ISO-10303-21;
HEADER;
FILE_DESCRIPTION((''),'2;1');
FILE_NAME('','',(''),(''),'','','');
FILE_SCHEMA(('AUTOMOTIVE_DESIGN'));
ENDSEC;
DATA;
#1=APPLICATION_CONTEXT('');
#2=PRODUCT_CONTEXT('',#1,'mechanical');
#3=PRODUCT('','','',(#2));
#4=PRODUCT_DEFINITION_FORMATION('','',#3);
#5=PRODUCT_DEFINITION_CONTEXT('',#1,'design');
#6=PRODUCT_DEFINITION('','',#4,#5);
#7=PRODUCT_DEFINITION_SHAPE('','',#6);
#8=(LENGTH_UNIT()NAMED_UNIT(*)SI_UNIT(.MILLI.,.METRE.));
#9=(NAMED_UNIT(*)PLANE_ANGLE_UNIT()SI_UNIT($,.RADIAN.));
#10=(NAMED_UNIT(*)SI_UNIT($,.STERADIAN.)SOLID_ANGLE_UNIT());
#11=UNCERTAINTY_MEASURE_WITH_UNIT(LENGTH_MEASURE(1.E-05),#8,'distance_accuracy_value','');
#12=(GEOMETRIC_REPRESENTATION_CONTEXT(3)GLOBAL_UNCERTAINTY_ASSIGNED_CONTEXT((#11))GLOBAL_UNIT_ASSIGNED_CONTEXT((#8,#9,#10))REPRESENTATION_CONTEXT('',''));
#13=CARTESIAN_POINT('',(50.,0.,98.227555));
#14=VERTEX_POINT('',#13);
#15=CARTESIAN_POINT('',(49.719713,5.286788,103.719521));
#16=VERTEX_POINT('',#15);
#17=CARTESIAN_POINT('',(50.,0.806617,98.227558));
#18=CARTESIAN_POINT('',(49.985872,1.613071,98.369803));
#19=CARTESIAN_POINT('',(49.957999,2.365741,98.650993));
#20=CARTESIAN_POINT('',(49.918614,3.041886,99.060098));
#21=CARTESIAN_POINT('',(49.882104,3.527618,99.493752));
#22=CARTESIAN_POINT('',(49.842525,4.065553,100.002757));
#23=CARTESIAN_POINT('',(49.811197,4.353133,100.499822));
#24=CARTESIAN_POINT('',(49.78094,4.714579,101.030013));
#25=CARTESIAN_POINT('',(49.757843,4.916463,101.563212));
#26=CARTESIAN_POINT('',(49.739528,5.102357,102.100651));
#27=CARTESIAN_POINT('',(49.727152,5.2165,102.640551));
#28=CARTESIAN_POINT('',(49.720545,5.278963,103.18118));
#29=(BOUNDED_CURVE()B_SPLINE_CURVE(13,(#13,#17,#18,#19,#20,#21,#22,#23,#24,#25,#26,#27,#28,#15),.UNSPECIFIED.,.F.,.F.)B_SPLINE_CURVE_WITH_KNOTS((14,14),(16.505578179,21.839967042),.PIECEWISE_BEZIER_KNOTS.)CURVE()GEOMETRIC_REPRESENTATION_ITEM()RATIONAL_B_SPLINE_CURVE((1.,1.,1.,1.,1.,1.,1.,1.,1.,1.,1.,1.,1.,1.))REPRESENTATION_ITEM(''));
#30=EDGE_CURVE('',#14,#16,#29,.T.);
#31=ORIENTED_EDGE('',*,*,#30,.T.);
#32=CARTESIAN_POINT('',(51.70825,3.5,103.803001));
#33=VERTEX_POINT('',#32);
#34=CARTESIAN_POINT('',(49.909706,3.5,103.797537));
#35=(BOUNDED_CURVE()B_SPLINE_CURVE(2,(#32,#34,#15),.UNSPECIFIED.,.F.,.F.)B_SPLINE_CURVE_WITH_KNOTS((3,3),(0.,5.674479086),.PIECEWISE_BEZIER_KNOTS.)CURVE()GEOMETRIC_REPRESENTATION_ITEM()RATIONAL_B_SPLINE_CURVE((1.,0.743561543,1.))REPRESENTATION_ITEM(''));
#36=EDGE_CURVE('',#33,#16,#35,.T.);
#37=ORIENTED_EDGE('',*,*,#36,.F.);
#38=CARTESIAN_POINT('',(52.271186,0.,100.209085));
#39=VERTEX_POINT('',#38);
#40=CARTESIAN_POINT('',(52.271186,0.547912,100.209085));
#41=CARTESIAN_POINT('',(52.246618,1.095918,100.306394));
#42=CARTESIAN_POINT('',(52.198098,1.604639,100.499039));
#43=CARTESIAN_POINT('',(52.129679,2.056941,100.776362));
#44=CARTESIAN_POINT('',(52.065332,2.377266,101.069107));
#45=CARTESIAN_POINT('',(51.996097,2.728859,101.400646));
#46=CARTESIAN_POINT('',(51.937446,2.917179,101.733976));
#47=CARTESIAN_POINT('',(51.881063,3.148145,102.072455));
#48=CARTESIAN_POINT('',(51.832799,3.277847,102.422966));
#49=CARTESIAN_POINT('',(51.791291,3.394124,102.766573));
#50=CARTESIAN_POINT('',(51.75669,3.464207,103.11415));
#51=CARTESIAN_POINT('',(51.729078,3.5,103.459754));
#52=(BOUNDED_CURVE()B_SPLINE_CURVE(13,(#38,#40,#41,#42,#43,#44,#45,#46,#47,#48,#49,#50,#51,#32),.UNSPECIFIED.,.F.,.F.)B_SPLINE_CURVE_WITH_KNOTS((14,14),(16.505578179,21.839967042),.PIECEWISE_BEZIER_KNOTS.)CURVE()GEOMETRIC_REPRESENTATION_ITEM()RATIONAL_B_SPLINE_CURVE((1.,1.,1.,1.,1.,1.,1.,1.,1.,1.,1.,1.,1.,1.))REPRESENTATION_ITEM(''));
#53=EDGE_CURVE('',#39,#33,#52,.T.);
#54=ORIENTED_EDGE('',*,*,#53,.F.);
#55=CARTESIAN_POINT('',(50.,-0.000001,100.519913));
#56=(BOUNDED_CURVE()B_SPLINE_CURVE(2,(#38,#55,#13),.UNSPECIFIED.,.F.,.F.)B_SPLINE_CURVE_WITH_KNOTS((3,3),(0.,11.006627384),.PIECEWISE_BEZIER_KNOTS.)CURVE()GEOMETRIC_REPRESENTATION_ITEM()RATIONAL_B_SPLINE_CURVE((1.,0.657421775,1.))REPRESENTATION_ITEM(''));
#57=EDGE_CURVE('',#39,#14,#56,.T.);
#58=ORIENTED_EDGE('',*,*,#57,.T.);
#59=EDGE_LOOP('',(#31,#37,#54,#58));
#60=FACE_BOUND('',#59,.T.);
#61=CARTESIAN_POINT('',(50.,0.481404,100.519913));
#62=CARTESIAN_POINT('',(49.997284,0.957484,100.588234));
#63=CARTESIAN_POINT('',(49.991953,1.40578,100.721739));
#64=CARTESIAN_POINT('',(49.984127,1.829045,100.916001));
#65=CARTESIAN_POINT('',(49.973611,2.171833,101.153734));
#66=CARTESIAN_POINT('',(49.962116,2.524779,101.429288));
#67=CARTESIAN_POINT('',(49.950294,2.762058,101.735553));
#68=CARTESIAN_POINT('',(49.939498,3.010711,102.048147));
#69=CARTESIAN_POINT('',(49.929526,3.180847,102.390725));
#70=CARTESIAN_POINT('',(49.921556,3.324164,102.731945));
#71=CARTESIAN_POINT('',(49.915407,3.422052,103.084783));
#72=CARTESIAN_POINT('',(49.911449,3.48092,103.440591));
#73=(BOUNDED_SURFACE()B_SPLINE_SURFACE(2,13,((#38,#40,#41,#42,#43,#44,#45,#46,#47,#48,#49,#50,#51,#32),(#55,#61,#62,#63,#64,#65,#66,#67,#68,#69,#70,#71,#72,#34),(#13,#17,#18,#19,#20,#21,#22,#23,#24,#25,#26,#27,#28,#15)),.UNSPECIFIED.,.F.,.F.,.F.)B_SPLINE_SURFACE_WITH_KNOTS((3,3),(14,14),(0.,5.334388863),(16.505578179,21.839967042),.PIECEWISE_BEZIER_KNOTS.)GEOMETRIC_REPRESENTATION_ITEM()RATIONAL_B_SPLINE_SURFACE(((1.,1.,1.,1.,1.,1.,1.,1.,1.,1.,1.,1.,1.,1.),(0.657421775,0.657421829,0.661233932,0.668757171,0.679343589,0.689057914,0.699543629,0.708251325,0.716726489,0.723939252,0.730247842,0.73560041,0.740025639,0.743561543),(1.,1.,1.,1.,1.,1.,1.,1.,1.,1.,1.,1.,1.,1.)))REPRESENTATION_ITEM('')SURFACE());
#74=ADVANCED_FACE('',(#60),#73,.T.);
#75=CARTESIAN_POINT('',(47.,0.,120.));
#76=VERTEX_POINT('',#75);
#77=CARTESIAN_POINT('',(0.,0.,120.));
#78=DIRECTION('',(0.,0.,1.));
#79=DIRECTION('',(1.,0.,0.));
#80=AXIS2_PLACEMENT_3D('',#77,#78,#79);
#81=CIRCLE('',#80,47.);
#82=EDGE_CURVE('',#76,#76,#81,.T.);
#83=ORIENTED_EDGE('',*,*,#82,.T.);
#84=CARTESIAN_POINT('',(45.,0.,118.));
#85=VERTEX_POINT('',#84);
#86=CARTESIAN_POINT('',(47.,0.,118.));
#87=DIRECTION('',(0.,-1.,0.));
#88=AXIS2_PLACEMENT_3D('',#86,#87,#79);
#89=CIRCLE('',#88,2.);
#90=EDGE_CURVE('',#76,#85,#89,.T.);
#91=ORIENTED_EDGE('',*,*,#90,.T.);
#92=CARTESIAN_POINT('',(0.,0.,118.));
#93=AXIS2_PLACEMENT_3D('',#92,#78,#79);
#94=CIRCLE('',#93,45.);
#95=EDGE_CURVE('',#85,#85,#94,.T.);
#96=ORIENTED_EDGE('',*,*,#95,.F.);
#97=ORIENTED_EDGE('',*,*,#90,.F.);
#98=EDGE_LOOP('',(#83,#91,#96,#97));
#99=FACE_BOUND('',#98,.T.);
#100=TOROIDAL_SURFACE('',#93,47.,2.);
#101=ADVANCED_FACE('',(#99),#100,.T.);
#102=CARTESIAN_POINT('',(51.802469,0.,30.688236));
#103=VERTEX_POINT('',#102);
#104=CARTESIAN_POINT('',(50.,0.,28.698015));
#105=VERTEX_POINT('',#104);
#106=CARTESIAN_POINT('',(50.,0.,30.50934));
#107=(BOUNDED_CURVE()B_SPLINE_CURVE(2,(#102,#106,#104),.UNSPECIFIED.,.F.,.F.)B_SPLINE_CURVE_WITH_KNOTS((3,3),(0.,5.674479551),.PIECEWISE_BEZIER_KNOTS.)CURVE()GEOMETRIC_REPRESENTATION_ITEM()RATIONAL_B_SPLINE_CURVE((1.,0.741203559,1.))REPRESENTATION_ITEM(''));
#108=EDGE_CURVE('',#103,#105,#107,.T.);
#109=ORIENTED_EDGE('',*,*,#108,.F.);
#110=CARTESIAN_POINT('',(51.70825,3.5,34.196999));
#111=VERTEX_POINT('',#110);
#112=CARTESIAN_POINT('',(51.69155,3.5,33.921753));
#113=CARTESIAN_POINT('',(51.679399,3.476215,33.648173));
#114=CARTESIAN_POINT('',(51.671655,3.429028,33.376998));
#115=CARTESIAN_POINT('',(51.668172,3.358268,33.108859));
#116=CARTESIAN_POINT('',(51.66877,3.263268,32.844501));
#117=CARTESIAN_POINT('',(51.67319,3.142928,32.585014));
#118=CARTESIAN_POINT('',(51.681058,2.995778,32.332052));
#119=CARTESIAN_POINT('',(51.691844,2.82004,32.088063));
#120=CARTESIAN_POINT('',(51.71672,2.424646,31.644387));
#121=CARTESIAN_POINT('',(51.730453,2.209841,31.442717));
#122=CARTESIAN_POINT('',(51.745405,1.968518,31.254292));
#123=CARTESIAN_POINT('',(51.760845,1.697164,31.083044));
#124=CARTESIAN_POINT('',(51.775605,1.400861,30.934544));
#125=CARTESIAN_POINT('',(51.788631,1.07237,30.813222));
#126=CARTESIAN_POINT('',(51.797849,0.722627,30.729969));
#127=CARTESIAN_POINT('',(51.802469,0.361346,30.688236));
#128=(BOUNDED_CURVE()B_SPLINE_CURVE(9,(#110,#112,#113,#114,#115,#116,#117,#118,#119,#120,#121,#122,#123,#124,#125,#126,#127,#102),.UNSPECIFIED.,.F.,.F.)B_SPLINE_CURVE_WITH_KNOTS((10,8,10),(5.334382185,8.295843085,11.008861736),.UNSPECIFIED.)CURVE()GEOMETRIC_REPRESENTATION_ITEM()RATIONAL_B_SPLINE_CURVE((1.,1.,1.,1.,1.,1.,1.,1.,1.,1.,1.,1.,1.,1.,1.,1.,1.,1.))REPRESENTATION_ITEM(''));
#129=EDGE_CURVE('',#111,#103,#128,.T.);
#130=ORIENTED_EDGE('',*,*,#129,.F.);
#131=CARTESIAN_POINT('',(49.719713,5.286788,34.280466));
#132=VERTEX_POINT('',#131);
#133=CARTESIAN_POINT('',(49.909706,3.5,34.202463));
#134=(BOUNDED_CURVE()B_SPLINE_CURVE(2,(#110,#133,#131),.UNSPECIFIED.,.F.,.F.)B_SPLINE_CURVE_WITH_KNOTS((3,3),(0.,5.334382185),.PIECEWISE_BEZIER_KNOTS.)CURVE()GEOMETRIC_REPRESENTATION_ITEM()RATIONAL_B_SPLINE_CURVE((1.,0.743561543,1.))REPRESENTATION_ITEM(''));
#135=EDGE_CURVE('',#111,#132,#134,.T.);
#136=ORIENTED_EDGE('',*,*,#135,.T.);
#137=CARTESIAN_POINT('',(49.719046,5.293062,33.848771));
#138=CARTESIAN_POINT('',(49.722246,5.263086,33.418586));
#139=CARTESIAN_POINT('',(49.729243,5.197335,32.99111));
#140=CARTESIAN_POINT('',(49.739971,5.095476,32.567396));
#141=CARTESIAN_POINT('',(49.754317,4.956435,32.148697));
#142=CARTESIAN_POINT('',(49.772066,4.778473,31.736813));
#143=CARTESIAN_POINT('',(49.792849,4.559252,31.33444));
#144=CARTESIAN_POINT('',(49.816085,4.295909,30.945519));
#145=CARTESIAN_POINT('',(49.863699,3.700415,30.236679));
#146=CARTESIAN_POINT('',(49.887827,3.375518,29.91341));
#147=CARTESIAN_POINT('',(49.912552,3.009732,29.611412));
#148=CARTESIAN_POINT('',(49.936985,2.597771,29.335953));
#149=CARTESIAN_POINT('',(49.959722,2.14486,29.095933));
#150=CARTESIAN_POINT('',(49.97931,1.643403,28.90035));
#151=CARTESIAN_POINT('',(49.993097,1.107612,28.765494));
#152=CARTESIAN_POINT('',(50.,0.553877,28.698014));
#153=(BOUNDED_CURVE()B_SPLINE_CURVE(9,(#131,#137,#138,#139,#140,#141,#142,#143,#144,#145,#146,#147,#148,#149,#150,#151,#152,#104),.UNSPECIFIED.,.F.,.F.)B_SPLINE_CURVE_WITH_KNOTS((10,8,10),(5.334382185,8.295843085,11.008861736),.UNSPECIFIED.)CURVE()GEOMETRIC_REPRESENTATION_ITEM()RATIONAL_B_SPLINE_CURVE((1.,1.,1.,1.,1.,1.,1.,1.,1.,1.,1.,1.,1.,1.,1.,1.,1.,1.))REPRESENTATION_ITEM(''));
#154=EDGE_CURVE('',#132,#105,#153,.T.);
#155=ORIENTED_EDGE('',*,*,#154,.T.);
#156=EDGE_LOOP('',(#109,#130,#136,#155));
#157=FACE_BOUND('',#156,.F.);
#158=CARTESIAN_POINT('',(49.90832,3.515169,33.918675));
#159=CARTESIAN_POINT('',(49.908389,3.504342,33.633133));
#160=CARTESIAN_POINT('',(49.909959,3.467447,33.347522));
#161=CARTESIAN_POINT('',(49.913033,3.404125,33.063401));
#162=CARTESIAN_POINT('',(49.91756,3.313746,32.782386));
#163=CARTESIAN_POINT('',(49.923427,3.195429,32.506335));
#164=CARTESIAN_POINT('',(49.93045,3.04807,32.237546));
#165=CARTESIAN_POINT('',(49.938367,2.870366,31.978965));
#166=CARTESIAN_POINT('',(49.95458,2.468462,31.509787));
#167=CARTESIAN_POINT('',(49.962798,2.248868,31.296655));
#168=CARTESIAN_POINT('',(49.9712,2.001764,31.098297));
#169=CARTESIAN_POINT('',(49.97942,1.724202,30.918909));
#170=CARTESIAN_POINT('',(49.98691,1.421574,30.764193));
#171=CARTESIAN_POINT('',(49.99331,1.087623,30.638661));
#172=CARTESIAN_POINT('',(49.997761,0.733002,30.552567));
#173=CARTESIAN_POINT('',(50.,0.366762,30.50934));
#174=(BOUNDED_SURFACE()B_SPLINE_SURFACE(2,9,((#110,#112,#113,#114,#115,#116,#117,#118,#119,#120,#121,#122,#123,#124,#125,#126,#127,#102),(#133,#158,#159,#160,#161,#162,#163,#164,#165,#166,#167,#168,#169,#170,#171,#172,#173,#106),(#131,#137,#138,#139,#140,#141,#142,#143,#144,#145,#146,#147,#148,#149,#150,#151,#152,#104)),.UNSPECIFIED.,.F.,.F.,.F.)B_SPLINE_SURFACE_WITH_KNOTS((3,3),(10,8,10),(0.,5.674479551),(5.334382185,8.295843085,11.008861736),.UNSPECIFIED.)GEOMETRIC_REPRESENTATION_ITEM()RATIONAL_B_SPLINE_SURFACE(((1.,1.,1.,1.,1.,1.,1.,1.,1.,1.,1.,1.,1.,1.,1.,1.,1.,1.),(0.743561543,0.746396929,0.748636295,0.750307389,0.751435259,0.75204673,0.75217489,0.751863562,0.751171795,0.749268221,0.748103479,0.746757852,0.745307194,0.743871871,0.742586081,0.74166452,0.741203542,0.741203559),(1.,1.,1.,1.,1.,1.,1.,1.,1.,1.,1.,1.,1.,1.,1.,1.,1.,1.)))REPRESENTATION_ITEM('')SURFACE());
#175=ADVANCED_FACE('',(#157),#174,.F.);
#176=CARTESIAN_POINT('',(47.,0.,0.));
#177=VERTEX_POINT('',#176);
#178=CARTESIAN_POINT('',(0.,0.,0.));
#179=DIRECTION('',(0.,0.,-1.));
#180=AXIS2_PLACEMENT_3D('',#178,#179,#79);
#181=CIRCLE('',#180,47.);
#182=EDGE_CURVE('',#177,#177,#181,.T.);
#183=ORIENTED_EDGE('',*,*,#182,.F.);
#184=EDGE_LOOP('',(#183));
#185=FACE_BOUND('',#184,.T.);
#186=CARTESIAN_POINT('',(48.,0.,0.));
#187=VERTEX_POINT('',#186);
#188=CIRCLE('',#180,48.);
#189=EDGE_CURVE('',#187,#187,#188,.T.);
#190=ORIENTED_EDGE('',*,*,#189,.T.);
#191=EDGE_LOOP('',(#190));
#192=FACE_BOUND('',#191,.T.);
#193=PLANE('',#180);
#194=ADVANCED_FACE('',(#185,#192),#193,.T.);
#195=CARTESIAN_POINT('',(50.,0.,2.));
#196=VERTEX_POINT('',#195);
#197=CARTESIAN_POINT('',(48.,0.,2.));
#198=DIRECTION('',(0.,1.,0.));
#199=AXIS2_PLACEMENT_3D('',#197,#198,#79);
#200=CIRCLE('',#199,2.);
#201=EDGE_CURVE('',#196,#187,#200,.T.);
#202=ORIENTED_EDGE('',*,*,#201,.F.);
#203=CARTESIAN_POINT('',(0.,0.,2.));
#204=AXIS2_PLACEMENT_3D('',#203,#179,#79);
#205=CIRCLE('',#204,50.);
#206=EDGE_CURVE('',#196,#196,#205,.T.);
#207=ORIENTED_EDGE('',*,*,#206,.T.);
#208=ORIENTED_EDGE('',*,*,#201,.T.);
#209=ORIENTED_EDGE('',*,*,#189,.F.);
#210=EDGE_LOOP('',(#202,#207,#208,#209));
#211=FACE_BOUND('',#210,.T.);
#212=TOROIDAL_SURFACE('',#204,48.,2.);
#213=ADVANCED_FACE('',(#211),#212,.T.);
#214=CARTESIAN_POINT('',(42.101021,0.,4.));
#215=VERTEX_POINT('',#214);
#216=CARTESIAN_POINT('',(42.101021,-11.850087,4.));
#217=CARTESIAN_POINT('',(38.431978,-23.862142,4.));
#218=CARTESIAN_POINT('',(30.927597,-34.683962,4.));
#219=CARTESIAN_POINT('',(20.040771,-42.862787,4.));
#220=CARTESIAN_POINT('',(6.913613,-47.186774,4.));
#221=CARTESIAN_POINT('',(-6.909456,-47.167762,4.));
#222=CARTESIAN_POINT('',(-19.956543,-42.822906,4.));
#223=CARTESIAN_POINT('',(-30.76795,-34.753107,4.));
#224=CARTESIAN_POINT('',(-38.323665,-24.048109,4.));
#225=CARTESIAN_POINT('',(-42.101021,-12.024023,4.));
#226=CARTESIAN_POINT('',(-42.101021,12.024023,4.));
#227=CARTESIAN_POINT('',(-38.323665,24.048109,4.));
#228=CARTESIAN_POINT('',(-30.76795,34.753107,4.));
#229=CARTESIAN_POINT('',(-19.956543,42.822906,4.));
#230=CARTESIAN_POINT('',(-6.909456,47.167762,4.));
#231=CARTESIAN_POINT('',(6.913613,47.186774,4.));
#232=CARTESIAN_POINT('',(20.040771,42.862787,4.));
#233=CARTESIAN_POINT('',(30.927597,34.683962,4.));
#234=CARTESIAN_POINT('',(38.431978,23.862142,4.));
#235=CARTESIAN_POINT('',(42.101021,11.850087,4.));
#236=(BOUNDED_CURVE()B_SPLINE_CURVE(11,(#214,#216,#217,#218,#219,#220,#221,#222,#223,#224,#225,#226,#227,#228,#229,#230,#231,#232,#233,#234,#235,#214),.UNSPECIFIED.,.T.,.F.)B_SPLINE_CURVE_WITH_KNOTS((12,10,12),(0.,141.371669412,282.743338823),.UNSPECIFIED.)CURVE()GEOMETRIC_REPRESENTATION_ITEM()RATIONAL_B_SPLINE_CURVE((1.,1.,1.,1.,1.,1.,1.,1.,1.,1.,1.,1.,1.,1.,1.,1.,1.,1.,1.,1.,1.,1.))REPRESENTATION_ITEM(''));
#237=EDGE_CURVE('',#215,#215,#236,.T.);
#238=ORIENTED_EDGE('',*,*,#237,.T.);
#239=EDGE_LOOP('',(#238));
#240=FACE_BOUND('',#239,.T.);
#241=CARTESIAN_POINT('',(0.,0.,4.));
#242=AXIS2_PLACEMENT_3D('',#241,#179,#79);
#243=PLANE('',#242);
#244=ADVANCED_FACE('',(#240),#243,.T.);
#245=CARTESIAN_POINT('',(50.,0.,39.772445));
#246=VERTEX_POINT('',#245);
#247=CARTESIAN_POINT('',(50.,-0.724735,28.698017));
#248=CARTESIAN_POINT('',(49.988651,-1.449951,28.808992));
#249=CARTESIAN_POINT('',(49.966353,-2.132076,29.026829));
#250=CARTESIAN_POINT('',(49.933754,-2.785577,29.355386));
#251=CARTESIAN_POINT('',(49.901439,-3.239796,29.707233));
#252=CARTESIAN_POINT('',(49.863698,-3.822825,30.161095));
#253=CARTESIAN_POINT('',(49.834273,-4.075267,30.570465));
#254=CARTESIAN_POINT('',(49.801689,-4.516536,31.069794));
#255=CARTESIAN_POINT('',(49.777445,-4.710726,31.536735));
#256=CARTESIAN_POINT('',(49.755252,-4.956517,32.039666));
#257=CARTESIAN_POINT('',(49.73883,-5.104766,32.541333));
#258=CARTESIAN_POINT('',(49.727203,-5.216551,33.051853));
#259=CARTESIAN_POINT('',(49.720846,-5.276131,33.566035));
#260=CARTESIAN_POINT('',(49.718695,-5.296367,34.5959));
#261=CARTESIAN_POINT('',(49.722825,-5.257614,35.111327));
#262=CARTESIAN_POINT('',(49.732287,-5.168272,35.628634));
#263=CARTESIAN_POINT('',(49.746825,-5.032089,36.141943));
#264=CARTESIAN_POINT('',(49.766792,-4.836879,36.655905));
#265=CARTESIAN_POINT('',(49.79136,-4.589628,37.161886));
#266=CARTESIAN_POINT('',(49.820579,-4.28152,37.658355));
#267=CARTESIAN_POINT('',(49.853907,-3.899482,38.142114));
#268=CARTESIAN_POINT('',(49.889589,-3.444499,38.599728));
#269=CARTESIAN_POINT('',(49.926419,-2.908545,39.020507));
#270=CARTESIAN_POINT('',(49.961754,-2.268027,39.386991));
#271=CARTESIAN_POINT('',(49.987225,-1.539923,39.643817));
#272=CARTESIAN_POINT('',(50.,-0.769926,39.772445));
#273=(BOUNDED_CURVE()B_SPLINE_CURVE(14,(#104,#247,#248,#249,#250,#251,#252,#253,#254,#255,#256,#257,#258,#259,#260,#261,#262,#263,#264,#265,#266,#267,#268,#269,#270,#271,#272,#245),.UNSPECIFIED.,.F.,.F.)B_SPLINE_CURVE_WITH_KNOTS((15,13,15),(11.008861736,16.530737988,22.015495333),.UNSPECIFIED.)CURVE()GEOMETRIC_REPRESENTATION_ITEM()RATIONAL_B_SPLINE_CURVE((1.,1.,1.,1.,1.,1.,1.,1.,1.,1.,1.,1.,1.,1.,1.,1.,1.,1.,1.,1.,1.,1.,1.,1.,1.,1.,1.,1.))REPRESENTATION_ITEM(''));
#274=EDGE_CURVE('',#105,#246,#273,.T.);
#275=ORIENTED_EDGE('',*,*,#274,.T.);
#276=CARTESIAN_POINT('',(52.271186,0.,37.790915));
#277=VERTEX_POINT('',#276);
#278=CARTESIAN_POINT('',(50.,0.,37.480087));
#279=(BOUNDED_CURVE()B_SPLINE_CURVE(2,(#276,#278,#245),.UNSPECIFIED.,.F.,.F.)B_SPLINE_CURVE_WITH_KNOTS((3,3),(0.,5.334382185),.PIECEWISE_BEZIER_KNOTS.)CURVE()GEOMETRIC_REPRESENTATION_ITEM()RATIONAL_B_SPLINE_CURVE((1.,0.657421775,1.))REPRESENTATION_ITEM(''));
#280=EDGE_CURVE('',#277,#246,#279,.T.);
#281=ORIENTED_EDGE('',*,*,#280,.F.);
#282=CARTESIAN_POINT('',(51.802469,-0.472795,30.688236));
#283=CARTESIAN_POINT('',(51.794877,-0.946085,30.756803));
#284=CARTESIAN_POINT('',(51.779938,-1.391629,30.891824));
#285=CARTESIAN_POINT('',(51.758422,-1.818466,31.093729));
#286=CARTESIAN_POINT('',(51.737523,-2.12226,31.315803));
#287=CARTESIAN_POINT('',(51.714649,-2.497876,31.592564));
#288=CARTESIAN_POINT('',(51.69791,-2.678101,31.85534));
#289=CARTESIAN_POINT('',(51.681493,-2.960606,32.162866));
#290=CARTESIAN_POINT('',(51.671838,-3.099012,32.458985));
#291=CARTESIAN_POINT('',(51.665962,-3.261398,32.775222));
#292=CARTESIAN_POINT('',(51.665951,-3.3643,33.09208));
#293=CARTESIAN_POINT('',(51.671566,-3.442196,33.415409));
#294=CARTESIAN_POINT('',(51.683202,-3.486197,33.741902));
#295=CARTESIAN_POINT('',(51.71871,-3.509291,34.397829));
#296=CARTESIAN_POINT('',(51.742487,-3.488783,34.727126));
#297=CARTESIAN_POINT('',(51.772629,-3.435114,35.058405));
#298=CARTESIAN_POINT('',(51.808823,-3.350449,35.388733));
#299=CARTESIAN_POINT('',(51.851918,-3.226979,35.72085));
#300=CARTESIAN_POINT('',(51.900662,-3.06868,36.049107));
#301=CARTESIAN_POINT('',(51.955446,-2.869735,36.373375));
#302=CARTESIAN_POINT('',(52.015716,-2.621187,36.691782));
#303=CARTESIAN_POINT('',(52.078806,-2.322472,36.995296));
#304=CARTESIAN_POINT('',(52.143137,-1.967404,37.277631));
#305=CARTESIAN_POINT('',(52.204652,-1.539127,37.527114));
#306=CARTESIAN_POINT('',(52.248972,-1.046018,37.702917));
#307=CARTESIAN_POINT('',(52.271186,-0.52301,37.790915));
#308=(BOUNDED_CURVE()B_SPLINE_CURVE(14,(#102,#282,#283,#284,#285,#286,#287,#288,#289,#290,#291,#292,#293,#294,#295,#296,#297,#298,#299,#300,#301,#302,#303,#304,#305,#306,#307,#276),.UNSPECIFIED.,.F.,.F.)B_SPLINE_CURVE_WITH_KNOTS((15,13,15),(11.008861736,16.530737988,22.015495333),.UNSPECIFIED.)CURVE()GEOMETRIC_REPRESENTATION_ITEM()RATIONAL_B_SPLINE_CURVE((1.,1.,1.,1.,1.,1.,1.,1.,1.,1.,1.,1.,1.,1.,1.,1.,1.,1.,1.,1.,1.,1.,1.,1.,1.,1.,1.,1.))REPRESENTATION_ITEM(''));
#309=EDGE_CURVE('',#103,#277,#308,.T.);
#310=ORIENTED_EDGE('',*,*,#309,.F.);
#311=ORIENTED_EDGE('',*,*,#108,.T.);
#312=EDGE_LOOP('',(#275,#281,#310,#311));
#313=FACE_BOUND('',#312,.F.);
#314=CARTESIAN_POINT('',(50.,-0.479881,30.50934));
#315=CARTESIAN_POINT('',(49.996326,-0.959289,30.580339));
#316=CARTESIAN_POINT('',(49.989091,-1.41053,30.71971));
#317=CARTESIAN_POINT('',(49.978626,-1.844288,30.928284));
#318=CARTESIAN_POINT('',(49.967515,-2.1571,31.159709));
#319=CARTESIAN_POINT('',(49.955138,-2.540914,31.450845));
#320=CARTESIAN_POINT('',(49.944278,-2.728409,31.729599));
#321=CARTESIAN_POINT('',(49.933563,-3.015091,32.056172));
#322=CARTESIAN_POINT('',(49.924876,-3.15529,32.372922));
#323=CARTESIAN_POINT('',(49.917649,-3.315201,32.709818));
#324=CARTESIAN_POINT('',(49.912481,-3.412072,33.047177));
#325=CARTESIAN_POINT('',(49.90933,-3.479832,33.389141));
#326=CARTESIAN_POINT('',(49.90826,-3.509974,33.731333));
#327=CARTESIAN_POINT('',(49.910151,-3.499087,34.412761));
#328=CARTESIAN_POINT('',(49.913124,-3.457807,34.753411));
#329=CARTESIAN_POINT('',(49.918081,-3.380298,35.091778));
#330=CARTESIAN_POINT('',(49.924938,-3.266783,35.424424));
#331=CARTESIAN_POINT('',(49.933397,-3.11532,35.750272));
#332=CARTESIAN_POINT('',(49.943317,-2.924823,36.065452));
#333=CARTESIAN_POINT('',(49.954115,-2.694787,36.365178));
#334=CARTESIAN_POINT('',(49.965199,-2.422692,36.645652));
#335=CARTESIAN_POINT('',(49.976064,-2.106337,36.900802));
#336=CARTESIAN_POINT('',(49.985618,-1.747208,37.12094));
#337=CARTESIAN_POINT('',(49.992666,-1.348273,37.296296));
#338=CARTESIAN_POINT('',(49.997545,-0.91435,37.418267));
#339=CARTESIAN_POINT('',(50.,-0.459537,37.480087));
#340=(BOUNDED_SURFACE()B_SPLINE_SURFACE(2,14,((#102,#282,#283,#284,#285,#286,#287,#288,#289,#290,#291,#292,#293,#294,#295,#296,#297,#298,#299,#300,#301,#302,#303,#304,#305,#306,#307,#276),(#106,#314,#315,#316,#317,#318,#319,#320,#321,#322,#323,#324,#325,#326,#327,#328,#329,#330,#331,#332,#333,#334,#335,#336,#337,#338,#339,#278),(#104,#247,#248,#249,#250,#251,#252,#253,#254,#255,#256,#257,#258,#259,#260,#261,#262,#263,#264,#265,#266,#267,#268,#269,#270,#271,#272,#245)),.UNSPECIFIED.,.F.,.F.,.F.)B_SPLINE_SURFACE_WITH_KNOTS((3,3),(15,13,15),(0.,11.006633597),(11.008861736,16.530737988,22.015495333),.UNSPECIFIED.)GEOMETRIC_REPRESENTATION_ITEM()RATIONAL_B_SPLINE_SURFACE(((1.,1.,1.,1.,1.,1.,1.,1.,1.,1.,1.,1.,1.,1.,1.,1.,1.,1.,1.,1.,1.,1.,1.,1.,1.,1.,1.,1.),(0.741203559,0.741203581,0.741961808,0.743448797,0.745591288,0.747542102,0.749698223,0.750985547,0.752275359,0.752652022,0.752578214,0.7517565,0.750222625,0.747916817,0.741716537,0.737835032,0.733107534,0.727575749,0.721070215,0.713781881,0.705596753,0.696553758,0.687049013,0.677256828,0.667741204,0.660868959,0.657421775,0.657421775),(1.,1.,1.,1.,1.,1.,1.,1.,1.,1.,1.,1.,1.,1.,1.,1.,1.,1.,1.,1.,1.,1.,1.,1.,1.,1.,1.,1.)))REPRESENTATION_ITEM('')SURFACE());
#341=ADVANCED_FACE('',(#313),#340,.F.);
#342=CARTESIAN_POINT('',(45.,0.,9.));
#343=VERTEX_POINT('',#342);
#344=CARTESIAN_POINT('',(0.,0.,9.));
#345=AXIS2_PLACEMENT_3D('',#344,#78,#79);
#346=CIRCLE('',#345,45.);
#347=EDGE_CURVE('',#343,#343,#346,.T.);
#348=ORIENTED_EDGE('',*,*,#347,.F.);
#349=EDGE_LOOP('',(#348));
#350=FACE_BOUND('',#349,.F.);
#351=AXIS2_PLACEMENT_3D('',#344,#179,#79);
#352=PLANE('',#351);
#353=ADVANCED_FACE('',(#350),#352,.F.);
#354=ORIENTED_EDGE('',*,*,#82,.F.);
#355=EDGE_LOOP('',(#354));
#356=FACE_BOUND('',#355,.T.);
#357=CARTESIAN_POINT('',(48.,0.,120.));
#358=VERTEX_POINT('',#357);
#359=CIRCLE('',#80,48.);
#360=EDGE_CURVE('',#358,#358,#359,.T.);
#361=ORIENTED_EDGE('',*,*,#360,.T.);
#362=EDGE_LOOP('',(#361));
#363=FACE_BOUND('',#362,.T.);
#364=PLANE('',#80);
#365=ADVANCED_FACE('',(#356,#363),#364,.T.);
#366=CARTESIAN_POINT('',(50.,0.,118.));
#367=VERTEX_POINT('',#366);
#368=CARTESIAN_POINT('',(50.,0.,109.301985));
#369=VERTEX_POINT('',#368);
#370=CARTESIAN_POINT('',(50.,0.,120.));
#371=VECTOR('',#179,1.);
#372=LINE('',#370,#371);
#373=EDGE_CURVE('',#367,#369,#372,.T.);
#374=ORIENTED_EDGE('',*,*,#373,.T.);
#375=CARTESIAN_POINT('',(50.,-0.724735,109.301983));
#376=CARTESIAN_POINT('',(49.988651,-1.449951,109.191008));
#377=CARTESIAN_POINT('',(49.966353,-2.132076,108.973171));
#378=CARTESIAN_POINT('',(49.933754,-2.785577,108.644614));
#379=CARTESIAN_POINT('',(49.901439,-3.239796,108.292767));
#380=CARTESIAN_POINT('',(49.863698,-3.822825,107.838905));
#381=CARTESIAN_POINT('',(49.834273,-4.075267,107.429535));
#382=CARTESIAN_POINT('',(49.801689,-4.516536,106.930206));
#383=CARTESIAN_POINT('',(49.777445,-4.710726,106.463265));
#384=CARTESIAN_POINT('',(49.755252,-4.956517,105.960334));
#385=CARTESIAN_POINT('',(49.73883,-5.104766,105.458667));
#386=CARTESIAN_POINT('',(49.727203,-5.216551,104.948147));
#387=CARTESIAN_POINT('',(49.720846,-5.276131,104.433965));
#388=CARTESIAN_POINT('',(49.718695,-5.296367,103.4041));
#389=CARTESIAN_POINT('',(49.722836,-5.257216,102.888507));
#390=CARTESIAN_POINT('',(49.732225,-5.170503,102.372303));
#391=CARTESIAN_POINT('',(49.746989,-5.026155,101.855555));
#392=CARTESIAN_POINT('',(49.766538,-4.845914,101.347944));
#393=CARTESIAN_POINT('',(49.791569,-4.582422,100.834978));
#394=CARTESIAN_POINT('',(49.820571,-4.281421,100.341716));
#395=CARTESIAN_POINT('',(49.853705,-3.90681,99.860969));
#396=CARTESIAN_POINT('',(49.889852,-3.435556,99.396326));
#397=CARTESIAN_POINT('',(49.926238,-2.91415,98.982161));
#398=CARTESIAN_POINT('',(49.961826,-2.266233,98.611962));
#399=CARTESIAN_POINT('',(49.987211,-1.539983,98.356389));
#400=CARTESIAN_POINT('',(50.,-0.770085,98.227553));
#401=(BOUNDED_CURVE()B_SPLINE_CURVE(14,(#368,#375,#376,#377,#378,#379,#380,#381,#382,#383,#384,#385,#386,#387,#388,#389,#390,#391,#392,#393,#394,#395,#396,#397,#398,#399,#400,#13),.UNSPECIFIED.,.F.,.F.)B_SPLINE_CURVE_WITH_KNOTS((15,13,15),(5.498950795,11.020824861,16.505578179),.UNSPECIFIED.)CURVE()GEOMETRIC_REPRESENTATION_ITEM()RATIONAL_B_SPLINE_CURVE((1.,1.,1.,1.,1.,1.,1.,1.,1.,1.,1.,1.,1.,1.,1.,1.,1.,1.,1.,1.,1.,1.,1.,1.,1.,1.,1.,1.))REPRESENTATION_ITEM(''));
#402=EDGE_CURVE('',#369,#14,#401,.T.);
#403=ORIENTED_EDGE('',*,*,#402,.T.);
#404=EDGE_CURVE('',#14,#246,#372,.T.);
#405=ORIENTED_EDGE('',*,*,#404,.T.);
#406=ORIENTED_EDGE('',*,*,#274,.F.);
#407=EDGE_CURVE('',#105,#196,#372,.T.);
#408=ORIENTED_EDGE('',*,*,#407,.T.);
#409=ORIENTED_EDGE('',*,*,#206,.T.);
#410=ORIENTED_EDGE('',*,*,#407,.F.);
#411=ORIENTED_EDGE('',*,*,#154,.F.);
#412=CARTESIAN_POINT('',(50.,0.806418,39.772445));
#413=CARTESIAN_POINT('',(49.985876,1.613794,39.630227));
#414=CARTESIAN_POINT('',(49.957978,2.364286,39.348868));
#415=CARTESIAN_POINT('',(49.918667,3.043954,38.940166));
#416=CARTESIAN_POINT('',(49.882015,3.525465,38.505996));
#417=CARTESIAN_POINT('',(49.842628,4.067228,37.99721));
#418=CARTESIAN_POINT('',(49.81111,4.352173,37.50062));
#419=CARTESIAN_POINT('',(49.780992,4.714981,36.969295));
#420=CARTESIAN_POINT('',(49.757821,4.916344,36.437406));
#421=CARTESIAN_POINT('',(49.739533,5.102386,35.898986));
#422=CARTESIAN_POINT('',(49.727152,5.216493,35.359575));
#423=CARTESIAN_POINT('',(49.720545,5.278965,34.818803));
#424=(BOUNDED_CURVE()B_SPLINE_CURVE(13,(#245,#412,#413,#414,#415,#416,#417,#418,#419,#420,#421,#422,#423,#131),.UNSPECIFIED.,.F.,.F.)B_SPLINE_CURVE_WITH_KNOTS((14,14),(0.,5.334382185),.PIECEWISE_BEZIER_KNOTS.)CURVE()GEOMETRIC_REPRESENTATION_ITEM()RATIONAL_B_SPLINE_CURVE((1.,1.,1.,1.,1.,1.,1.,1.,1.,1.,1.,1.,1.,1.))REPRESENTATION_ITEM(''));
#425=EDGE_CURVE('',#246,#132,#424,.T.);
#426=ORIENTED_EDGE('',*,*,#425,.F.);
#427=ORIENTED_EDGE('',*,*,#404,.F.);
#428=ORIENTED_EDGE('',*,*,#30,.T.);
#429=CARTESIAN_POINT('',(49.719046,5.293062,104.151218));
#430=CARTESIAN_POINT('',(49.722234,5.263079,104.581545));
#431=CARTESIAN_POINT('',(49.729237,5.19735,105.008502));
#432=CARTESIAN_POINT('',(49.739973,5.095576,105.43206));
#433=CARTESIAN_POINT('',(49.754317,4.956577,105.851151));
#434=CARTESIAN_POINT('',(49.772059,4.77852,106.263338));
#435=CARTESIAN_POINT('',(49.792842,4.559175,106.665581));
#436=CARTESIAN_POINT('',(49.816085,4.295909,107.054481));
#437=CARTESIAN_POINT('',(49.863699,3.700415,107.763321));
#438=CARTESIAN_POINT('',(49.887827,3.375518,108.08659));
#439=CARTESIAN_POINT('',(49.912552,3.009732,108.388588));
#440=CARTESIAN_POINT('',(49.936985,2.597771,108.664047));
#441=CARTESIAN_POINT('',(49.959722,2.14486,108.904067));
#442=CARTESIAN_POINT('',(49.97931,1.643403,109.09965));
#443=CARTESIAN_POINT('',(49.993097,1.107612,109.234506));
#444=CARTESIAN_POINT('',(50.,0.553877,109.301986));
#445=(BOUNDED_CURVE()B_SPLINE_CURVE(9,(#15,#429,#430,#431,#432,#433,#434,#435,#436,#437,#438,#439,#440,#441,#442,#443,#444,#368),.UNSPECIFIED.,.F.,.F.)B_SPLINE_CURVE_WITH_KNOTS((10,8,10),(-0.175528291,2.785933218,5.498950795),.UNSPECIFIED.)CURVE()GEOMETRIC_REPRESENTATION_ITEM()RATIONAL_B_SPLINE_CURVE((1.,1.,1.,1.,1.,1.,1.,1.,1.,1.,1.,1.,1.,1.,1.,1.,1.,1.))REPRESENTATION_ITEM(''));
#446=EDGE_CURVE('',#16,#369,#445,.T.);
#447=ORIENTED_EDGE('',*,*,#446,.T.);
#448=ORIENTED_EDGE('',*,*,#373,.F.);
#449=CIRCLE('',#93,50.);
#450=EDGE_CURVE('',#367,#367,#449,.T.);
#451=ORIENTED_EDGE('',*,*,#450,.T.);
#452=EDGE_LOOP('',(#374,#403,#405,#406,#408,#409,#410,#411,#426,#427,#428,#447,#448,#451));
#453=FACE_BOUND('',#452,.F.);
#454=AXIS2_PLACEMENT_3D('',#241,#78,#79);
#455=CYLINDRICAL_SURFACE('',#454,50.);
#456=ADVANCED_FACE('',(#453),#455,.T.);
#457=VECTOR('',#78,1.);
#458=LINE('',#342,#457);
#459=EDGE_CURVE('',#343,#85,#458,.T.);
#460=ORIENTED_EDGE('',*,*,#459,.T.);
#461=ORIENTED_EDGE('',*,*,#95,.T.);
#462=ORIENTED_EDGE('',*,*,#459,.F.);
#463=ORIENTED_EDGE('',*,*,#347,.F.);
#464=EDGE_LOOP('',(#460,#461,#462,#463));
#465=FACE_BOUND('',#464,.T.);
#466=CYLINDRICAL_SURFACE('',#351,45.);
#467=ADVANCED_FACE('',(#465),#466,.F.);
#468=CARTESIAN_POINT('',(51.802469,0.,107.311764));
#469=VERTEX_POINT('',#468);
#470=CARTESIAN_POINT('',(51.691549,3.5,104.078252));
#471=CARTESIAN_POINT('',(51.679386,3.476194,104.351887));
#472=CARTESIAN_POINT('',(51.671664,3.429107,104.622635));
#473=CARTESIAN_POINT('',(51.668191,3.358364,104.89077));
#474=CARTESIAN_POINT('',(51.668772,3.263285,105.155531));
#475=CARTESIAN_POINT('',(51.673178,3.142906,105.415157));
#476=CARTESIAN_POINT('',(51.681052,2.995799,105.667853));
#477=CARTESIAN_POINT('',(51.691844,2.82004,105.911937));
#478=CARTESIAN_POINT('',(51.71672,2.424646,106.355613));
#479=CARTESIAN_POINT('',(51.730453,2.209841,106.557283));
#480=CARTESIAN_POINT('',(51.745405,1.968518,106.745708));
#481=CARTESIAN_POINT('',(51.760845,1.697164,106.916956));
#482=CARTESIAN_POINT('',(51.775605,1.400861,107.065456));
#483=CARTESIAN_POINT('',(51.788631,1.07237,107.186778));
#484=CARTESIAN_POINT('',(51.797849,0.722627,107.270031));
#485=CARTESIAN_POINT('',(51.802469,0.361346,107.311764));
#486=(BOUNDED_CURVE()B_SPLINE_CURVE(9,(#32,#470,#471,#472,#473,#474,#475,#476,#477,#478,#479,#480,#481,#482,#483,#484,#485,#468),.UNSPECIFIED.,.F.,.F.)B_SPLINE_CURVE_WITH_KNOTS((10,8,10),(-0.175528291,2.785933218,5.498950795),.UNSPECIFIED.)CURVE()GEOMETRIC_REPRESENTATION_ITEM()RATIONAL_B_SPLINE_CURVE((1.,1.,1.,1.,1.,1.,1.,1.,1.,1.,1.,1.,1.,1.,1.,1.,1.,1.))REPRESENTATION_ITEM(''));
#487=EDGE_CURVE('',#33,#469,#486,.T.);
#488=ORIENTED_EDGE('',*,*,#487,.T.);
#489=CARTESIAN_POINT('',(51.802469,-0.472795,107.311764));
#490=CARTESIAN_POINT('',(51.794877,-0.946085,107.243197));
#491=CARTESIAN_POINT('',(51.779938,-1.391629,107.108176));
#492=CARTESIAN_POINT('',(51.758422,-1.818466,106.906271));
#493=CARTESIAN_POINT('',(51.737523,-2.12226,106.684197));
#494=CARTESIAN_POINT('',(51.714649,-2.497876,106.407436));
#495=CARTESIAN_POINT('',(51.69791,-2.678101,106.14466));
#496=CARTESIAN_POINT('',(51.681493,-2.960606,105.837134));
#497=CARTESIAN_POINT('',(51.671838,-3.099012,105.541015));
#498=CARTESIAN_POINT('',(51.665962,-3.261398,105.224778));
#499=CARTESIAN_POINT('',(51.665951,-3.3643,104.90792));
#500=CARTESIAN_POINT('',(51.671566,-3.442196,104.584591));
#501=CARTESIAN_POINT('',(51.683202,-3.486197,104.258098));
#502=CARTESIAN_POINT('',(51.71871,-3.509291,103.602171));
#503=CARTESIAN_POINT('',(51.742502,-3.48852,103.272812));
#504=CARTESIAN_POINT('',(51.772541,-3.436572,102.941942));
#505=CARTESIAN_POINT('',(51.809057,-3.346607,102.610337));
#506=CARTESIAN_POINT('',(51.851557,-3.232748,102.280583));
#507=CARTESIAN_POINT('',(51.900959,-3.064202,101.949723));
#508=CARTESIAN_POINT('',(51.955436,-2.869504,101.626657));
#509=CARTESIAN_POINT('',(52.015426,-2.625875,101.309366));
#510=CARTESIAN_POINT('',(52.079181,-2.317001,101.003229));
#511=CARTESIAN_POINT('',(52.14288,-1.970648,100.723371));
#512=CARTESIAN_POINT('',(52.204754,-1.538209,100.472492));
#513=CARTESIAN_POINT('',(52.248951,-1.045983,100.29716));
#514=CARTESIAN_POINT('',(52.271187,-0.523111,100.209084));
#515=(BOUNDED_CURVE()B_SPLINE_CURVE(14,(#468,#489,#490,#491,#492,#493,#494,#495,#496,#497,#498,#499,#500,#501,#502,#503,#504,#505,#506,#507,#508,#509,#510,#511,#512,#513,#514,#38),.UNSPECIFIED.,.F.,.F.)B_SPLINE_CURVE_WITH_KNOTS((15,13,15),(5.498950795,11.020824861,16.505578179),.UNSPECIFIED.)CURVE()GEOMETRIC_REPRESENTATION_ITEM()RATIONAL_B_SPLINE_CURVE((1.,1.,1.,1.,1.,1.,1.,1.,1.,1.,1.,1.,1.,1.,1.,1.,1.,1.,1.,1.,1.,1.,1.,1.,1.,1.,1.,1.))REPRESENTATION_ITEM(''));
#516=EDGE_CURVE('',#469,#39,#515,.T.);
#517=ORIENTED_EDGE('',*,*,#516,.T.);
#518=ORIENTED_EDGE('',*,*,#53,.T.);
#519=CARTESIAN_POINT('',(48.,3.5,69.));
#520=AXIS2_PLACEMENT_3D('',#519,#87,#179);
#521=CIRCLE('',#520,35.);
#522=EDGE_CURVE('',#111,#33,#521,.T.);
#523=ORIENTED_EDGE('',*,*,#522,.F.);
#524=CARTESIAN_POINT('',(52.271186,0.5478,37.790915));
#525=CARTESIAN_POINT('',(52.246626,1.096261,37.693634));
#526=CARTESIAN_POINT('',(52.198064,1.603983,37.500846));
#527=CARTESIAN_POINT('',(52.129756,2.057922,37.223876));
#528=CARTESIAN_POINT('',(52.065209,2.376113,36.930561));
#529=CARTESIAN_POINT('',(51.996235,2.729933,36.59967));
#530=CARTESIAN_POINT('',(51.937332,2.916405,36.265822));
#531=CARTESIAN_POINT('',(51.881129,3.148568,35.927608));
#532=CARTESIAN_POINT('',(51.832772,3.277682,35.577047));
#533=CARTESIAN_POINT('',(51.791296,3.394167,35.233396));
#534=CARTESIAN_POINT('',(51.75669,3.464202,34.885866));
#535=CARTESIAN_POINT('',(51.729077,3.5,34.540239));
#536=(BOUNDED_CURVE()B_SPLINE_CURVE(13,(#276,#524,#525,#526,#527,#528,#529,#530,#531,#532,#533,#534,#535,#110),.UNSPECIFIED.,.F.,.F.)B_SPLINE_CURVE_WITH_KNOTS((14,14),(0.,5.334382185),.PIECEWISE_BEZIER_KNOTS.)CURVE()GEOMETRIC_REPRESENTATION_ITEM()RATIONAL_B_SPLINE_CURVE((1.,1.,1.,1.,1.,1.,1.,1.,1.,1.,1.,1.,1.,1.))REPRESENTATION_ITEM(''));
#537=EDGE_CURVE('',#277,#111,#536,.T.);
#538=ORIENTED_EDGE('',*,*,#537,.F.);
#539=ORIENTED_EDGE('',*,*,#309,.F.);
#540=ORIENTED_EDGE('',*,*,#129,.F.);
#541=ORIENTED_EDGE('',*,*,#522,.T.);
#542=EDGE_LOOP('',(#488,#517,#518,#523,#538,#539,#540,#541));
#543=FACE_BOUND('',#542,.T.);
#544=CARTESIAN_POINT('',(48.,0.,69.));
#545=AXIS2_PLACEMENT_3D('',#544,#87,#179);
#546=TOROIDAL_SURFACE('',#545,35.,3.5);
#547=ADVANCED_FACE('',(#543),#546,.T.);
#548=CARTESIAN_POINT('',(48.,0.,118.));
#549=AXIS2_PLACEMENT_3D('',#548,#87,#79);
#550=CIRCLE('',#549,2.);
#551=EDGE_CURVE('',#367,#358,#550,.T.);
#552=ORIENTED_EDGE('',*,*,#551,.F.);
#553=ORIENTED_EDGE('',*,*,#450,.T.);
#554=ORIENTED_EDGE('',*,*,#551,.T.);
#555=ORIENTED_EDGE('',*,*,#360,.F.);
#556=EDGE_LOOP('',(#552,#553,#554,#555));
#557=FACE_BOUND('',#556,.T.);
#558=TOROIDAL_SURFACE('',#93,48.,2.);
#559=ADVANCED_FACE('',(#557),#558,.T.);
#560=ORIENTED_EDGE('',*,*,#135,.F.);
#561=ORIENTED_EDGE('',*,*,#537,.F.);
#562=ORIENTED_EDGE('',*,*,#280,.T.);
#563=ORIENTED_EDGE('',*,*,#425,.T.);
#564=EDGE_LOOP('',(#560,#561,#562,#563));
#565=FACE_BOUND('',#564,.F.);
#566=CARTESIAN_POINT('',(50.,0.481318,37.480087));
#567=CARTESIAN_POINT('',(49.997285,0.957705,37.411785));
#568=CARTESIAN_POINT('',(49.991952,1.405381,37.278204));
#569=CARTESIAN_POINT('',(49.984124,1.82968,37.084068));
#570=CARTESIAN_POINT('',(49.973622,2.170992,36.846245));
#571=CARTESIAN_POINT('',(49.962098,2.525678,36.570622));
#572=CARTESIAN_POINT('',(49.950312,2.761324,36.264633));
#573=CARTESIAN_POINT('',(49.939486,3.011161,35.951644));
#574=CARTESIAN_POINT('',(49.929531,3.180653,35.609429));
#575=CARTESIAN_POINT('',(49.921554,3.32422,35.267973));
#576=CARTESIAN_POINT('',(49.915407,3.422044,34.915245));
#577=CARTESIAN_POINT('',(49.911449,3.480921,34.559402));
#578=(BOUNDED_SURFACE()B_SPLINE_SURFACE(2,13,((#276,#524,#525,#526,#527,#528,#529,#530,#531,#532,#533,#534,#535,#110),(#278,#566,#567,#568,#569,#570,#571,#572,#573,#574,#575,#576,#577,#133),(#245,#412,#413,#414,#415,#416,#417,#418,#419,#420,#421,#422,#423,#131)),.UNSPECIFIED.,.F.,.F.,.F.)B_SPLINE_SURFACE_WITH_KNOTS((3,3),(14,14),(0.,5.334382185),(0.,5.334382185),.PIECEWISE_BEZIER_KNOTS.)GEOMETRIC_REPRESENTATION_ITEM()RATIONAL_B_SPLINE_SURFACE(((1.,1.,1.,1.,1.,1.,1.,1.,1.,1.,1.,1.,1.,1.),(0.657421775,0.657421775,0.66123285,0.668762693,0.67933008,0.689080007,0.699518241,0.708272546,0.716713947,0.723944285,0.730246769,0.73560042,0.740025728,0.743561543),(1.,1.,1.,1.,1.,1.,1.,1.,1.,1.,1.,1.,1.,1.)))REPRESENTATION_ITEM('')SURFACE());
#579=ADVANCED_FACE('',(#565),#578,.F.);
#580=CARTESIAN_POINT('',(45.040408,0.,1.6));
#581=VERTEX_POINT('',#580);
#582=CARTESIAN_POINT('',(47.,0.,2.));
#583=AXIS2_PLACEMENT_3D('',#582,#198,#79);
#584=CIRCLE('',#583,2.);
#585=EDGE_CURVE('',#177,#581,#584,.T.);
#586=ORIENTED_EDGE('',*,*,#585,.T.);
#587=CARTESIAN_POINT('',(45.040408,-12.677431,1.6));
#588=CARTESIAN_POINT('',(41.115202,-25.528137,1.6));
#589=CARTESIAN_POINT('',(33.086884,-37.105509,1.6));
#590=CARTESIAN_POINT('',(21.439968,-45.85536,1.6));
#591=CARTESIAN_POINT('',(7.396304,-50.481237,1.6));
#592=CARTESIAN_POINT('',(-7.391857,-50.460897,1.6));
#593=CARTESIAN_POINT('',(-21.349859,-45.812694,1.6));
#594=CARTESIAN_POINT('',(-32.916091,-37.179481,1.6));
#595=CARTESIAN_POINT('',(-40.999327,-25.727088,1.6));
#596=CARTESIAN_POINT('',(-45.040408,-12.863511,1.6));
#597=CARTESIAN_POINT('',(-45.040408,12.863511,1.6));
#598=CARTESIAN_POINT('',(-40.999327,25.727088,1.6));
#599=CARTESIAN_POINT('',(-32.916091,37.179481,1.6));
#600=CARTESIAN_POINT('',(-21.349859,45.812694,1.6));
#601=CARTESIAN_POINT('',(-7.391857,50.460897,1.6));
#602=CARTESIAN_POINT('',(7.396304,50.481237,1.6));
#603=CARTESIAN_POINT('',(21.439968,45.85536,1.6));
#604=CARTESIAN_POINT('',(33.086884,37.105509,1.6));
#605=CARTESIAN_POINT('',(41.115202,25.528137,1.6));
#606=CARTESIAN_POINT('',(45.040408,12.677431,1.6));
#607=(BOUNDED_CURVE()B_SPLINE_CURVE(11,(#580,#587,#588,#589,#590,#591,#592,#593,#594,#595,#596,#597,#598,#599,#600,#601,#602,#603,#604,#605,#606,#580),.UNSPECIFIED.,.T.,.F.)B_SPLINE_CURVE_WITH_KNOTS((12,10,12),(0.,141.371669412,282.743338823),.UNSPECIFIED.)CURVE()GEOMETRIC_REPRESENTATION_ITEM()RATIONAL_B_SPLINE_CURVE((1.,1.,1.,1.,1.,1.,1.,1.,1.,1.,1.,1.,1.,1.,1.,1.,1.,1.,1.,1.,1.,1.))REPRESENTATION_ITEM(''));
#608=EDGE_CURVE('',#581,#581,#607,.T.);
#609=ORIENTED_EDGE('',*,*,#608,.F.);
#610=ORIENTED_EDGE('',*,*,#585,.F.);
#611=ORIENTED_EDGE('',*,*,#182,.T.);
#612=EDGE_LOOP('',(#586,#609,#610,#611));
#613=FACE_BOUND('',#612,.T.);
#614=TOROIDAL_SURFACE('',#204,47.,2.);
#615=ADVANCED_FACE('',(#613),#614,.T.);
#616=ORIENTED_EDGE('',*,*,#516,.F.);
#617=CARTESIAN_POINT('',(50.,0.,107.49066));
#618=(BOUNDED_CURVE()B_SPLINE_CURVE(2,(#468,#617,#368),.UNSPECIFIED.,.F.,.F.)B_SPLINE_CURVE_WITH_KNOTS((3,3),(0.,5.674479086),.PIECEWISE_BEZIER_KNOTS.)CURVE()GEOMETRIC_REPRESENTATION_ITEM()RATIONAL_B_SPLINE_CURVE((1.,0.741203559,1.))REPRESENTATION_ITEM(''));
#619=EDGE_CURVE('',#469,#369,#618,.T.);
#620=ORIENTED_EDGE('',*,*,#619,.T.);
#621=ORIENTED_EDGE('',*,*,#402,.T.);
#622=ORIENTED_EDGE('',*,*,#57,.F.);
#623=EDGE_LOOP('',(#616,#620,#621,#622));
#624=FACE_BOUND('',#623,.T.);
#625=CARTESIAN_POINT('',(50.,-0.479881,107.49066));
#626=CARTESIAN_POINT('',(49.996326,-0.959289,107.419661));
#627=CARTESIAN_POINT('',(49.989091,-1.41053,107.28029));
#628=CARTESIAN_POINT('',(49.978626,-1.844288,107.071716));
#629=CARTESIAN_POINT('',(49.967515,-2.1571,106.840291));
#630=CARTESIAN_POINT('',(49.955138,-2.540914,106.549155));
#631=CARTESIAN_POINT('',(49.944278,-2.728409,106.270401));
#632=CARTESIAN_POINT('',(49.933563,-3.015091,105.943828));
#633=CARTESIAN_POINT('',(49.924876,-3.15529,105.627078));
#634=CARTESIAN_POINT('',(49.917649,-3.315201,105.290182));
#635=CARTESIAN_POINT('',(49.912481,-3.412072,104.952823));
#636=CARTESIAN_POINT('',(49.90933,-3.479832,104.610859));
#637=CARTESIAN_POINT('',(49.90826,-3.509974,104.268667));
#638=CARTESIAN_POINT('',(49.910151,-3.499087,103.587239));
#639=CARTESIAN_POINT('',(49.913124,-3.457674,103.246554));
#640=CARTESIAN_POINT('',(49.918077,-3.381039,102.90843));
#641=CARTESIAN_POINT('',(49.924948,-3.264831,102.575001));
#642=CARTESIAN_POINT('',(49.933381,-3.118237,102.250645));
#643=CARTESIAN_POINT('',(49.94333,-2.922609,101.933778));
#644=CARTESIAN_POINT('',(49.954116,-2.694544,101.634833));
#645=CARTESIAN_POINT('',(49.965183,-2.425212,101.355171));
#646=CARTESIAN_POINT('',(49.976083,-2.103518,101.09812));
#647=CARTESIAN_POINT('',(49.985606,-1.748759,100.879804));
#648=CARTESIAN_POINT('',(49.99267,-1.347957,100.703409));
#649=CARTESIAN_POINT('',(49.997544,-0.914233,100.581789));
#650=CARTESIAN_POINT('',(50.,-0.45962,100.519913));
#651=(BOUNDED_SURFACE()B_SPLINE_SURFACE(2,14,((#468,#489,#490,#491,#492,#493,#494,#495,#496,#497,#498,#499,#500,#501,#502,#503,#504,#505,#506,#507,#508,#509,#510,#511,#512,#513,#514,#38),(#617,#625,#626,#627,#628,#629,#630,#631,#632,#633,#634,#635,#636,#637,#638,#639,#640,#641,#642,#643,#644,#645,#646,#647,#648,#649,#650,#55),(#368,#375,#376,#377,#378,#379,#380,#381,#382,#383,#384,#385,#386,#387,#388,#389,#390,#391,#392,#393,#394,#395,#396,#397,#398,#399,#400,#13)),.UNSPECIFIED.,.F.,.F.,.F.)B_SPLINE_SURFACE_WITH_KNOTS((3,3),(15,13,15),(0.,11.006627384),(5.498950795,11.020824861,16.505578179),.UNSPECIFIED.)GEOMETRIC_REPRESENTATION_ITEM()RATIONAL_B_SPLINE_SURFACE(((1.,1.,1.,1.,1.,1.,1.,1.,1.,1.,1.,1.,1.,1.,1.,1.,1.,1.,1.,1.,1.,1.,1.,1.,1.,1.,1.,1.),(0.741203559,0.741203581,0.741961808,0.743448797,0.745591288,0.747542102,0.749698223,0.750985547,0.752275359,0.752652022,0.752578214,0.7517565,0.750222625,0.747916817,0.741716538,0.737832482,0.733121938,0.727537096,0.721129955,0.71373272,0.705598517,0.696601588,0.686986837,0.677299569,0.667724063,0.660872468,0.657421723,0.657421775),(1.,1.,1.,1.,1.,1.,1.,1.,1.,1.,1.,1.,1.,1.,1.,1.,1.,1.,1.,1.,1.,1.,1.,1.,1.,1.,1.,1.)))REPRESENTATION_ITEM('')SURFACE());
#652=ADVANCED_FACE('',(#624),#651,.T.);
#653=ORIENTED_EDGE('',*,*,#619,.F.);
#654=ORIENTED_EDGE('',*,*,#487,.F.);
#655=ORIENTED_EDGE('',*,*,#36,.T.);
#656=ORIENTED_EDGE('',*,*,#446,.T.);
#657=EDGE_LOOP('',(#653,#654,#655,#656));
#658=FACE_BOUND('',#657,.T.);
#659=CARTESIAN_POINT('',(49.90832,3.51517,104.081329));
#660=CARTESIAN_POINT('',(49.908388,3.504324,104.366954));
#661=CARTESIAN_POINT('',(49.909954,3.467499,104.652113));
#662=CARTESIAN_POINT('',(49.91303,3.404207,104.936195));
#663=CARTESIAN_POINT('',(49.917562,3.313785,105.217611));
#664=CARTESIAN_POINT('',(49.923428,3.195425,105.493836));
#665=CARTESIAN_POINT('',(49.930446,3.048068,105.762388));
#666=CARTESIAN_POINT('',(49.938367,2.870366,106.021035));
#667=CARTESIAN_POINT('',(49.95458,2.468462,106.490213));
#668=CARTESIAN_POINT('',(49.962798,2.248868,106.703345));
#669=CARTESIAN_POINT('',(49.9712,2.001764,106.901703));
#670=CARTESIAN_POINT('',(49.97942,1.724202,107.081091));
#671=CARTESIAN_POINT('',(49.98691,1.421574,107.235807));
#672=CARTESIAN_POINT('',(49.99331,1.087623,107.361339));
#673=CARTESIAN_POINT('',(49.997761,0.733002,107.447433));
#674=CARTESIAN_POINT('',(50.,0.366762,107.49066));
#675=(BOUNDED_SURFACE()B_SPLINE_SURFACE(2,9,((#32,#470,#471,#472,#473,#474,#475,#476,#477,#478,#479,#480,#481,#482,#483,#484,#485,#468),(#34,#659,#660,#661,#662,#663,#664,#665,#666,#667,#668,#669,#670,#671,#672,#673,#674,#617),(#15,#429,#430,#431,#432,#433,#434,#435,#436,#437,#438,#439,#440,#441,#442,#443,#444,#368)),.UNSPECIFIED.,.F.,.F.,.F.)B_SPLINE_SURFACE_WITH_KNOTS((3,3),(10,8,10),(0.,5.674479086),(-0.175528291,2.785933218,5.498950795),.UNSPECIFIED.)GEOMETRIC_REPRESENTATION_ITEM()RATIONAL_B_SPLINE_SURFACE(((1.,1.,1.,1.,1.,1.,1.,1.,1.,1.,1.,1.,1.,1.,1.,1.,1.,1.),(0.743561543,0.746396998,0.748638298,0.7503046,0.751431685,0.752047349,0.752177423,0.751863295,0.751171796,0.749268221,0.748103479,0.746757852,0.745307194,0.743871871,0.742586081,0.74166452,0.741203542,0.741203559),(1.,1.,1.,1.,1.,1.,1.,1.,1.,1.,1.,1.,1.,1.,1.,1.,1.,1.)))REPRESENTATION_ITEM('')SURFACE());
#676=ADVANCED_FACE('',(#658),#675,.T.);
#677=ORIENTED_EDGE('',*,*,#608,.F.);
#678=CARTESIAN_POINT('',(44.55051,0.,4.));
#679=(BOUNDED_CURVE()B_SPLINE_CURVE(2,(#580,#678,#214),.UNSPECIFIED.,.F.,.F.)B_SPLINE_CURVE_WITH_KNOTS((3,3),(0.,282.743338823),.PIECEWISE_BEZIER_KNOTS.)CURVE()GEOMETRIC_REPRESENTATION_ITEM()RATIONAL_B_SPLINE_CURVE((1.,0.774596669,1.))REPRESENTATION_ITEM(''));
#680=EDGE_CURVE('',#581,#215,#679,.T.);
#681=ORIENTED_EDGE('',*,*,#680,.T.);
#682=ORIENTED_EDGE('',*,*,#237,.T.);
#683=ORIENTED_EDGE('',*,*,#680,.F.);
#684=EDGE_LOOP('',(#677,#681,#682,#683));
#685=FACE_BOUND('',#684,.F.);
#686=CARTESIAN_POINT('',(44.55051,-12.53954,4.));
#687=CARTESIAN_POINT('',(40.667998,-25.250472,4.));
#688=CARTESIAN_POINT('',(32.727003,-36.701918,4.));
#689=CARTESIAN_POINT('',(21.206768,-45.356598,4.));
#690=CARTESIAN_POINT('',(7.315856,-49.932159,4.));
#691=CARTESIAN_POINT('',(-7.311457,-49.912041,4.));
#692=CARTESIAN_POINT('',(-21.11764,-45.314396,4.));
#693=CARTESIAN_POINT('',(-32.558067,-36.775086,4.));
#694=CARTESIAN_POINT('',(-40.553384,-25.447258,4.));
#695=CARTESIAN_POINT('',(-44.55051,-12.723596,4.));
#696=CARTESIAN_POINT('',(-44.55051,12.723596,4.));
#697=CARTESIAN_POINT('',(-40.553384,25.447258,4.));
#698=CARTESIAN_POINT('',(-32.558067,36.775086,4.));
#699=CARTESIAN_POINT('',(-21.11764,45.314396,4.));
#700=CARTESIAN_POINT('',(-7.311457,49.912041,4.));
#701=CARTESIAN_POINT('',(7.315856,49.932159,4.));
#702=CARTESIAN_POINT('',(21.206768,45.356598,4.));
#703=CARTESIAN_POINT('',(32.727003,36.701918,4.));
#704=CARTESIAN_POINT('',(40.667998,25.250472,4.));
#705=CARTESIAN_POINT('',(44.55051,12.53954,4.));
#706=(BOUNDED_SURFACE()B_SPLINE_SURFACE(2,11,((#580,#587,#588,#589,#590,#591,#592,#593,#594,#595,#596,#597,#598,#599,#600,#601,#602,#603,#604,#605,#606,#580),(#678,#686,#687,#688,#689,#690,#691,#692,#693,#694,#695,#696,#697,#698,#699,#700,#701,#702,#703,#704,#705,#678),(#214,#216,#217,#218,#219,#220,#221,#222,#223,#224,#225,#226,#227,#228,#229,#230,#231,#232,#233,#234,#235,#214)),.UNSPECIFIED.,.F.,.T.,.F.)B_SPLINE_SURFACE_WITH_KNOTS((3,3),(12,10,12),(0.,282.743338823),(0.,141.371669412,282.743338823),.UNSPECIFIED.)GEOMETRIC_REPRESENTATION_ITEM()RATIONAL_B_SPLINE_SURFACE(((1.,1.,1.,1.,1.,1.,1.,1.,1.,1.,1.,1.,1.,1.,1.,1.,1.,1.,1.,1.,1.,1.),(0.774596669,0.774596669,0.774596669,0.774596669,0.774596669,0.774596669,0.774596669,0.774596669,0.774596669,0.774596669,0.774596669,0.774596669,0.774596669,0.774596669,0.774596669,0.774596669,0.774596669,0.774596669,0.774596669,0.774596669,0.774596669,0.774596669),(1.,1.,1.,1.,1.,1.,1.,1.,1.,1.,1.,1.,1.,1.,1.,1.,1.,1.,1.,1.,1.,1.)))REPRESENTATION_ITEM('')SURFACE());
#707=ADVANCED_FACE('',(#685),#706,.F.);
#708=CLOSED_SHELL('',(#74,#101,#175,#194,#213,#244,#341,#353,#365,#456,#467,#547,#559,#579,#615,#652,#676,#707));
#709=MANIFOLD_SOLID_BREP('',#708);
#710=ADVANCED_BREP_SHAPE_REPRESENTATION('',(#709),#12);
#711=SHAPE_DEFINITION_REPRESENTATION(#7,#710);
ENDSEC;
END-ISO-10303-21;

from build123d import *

# Parameters (mm, degrees)
SKETCH_R      = 50
SKETCH_R_2    = 45
PAD_DEPTH     = 111
SKETCH001_R   = 50
PAD001_DEPTH  = 5
SKETCH002_R   = 50
SKETCH002_R_2 = 45
PAD002_DEPTH  = 4
FILLET_R      = 2
FILLET001_R   = 2
FILLET002_R   = 3
SKETCH004_R   = 3.5
FILLET003_R   = 2
FILLET004_R   = 2


with BuildPart() as part:
    # Sketch → Pad (new body)
    with BuildSketch(Plane.XY):
        Circle(SKETCH_R)
        Circle(SKETCH_R_2, mode=Mode.SUBTRACT)
    extrude(amount=PAD_DEPTH)

    # Sketch001 (on Face3 of Pad) → Pad001 (join)
    with BuildSketch(Plane(origin=(0, 0, 0), x_dir=(1, 0, 0), z_dir=(0, 0, -1))):
        Circle(SKETCH001_R)
    extrude(amount=PAD001_DEPTH)

    # Sketch002 (on Face4 of Pad001) → Pad002 (join)
    with BuildSketch(Plane(origin=(0, 0, -5), x_dir=(1, 0, 0), z_dir=(0, 0, -1))):
        Circle(SKETCH002_R)
        Circle(SKETCH002_R_2, mode=Mode.SUBTRACT)
    extrude(amount=PAD002_DEPTH)

    # Fillet
    fillet_edges = [part.edges().sort_by_distance(p)[0] for p in [
        (-50, 0, -9),
    ]]
    fillet(fillet_edges, radius=FILLET_R)

    # Fillet001
    fillet001_edges = [part.edges().sort_by_distance(p)[0] for p in [
        (-45, 0, -9),
    ]]
    fillet(fillet001_edges, radius=FILLET001_R)

    # Fillet002
    fillet002_edges = [part.edges().sort_by_distance(p)[0] for p in [
        (-45, 0, -5),
    ]]
    fillet(fillet002_edges, radius=FILLET002_R)

    # Pipe: sweep along a path in Sketch003
    with BuildLine(Plane.XZ) as pipe_path:
        ThreePointArc((48, 25), (83, 60), (48, 95))
    # Sketch004 (on Plane of DatumPlane) → Pipe (sweep)
    with BuildSketch(Plane.YZ.offset(48)):
        with Locations((0, 25)):
            Circle(SKETCH004_R)
    sweep(path=pipe_path.line)

    # Fillet003
    fillet003_edges = [part.edges().sort_by_distance(p)[0] for p in [
        (49.938692, 2.475286, 97.424279),
        (49.938645, 2.476236, 92.468664),
        (49.938645, 2.476236, 27.531336),
        (49.938692, 2.475286, 22.575721),
        (49.87735, -3.499997, 25.055272),
        (49.87735, -3.499997, 94.944728),
    ]]
    fillet(fillet003_edges, radius=FILLET003_R)

    # Fillet004
    fillet004_edges = [part.edges().sort_by_distance(p)[0] for p in [
        (-45, 0, 111),
        (-50, 0, 111),
    ]]
    fillet(fillet004_edges, radius=FILLET004_R)


with BuildPart() as part_1:
    # Body placement: moved
    add(part.part.moved(Location((0, 0, 9))))


solid = part_1.part
